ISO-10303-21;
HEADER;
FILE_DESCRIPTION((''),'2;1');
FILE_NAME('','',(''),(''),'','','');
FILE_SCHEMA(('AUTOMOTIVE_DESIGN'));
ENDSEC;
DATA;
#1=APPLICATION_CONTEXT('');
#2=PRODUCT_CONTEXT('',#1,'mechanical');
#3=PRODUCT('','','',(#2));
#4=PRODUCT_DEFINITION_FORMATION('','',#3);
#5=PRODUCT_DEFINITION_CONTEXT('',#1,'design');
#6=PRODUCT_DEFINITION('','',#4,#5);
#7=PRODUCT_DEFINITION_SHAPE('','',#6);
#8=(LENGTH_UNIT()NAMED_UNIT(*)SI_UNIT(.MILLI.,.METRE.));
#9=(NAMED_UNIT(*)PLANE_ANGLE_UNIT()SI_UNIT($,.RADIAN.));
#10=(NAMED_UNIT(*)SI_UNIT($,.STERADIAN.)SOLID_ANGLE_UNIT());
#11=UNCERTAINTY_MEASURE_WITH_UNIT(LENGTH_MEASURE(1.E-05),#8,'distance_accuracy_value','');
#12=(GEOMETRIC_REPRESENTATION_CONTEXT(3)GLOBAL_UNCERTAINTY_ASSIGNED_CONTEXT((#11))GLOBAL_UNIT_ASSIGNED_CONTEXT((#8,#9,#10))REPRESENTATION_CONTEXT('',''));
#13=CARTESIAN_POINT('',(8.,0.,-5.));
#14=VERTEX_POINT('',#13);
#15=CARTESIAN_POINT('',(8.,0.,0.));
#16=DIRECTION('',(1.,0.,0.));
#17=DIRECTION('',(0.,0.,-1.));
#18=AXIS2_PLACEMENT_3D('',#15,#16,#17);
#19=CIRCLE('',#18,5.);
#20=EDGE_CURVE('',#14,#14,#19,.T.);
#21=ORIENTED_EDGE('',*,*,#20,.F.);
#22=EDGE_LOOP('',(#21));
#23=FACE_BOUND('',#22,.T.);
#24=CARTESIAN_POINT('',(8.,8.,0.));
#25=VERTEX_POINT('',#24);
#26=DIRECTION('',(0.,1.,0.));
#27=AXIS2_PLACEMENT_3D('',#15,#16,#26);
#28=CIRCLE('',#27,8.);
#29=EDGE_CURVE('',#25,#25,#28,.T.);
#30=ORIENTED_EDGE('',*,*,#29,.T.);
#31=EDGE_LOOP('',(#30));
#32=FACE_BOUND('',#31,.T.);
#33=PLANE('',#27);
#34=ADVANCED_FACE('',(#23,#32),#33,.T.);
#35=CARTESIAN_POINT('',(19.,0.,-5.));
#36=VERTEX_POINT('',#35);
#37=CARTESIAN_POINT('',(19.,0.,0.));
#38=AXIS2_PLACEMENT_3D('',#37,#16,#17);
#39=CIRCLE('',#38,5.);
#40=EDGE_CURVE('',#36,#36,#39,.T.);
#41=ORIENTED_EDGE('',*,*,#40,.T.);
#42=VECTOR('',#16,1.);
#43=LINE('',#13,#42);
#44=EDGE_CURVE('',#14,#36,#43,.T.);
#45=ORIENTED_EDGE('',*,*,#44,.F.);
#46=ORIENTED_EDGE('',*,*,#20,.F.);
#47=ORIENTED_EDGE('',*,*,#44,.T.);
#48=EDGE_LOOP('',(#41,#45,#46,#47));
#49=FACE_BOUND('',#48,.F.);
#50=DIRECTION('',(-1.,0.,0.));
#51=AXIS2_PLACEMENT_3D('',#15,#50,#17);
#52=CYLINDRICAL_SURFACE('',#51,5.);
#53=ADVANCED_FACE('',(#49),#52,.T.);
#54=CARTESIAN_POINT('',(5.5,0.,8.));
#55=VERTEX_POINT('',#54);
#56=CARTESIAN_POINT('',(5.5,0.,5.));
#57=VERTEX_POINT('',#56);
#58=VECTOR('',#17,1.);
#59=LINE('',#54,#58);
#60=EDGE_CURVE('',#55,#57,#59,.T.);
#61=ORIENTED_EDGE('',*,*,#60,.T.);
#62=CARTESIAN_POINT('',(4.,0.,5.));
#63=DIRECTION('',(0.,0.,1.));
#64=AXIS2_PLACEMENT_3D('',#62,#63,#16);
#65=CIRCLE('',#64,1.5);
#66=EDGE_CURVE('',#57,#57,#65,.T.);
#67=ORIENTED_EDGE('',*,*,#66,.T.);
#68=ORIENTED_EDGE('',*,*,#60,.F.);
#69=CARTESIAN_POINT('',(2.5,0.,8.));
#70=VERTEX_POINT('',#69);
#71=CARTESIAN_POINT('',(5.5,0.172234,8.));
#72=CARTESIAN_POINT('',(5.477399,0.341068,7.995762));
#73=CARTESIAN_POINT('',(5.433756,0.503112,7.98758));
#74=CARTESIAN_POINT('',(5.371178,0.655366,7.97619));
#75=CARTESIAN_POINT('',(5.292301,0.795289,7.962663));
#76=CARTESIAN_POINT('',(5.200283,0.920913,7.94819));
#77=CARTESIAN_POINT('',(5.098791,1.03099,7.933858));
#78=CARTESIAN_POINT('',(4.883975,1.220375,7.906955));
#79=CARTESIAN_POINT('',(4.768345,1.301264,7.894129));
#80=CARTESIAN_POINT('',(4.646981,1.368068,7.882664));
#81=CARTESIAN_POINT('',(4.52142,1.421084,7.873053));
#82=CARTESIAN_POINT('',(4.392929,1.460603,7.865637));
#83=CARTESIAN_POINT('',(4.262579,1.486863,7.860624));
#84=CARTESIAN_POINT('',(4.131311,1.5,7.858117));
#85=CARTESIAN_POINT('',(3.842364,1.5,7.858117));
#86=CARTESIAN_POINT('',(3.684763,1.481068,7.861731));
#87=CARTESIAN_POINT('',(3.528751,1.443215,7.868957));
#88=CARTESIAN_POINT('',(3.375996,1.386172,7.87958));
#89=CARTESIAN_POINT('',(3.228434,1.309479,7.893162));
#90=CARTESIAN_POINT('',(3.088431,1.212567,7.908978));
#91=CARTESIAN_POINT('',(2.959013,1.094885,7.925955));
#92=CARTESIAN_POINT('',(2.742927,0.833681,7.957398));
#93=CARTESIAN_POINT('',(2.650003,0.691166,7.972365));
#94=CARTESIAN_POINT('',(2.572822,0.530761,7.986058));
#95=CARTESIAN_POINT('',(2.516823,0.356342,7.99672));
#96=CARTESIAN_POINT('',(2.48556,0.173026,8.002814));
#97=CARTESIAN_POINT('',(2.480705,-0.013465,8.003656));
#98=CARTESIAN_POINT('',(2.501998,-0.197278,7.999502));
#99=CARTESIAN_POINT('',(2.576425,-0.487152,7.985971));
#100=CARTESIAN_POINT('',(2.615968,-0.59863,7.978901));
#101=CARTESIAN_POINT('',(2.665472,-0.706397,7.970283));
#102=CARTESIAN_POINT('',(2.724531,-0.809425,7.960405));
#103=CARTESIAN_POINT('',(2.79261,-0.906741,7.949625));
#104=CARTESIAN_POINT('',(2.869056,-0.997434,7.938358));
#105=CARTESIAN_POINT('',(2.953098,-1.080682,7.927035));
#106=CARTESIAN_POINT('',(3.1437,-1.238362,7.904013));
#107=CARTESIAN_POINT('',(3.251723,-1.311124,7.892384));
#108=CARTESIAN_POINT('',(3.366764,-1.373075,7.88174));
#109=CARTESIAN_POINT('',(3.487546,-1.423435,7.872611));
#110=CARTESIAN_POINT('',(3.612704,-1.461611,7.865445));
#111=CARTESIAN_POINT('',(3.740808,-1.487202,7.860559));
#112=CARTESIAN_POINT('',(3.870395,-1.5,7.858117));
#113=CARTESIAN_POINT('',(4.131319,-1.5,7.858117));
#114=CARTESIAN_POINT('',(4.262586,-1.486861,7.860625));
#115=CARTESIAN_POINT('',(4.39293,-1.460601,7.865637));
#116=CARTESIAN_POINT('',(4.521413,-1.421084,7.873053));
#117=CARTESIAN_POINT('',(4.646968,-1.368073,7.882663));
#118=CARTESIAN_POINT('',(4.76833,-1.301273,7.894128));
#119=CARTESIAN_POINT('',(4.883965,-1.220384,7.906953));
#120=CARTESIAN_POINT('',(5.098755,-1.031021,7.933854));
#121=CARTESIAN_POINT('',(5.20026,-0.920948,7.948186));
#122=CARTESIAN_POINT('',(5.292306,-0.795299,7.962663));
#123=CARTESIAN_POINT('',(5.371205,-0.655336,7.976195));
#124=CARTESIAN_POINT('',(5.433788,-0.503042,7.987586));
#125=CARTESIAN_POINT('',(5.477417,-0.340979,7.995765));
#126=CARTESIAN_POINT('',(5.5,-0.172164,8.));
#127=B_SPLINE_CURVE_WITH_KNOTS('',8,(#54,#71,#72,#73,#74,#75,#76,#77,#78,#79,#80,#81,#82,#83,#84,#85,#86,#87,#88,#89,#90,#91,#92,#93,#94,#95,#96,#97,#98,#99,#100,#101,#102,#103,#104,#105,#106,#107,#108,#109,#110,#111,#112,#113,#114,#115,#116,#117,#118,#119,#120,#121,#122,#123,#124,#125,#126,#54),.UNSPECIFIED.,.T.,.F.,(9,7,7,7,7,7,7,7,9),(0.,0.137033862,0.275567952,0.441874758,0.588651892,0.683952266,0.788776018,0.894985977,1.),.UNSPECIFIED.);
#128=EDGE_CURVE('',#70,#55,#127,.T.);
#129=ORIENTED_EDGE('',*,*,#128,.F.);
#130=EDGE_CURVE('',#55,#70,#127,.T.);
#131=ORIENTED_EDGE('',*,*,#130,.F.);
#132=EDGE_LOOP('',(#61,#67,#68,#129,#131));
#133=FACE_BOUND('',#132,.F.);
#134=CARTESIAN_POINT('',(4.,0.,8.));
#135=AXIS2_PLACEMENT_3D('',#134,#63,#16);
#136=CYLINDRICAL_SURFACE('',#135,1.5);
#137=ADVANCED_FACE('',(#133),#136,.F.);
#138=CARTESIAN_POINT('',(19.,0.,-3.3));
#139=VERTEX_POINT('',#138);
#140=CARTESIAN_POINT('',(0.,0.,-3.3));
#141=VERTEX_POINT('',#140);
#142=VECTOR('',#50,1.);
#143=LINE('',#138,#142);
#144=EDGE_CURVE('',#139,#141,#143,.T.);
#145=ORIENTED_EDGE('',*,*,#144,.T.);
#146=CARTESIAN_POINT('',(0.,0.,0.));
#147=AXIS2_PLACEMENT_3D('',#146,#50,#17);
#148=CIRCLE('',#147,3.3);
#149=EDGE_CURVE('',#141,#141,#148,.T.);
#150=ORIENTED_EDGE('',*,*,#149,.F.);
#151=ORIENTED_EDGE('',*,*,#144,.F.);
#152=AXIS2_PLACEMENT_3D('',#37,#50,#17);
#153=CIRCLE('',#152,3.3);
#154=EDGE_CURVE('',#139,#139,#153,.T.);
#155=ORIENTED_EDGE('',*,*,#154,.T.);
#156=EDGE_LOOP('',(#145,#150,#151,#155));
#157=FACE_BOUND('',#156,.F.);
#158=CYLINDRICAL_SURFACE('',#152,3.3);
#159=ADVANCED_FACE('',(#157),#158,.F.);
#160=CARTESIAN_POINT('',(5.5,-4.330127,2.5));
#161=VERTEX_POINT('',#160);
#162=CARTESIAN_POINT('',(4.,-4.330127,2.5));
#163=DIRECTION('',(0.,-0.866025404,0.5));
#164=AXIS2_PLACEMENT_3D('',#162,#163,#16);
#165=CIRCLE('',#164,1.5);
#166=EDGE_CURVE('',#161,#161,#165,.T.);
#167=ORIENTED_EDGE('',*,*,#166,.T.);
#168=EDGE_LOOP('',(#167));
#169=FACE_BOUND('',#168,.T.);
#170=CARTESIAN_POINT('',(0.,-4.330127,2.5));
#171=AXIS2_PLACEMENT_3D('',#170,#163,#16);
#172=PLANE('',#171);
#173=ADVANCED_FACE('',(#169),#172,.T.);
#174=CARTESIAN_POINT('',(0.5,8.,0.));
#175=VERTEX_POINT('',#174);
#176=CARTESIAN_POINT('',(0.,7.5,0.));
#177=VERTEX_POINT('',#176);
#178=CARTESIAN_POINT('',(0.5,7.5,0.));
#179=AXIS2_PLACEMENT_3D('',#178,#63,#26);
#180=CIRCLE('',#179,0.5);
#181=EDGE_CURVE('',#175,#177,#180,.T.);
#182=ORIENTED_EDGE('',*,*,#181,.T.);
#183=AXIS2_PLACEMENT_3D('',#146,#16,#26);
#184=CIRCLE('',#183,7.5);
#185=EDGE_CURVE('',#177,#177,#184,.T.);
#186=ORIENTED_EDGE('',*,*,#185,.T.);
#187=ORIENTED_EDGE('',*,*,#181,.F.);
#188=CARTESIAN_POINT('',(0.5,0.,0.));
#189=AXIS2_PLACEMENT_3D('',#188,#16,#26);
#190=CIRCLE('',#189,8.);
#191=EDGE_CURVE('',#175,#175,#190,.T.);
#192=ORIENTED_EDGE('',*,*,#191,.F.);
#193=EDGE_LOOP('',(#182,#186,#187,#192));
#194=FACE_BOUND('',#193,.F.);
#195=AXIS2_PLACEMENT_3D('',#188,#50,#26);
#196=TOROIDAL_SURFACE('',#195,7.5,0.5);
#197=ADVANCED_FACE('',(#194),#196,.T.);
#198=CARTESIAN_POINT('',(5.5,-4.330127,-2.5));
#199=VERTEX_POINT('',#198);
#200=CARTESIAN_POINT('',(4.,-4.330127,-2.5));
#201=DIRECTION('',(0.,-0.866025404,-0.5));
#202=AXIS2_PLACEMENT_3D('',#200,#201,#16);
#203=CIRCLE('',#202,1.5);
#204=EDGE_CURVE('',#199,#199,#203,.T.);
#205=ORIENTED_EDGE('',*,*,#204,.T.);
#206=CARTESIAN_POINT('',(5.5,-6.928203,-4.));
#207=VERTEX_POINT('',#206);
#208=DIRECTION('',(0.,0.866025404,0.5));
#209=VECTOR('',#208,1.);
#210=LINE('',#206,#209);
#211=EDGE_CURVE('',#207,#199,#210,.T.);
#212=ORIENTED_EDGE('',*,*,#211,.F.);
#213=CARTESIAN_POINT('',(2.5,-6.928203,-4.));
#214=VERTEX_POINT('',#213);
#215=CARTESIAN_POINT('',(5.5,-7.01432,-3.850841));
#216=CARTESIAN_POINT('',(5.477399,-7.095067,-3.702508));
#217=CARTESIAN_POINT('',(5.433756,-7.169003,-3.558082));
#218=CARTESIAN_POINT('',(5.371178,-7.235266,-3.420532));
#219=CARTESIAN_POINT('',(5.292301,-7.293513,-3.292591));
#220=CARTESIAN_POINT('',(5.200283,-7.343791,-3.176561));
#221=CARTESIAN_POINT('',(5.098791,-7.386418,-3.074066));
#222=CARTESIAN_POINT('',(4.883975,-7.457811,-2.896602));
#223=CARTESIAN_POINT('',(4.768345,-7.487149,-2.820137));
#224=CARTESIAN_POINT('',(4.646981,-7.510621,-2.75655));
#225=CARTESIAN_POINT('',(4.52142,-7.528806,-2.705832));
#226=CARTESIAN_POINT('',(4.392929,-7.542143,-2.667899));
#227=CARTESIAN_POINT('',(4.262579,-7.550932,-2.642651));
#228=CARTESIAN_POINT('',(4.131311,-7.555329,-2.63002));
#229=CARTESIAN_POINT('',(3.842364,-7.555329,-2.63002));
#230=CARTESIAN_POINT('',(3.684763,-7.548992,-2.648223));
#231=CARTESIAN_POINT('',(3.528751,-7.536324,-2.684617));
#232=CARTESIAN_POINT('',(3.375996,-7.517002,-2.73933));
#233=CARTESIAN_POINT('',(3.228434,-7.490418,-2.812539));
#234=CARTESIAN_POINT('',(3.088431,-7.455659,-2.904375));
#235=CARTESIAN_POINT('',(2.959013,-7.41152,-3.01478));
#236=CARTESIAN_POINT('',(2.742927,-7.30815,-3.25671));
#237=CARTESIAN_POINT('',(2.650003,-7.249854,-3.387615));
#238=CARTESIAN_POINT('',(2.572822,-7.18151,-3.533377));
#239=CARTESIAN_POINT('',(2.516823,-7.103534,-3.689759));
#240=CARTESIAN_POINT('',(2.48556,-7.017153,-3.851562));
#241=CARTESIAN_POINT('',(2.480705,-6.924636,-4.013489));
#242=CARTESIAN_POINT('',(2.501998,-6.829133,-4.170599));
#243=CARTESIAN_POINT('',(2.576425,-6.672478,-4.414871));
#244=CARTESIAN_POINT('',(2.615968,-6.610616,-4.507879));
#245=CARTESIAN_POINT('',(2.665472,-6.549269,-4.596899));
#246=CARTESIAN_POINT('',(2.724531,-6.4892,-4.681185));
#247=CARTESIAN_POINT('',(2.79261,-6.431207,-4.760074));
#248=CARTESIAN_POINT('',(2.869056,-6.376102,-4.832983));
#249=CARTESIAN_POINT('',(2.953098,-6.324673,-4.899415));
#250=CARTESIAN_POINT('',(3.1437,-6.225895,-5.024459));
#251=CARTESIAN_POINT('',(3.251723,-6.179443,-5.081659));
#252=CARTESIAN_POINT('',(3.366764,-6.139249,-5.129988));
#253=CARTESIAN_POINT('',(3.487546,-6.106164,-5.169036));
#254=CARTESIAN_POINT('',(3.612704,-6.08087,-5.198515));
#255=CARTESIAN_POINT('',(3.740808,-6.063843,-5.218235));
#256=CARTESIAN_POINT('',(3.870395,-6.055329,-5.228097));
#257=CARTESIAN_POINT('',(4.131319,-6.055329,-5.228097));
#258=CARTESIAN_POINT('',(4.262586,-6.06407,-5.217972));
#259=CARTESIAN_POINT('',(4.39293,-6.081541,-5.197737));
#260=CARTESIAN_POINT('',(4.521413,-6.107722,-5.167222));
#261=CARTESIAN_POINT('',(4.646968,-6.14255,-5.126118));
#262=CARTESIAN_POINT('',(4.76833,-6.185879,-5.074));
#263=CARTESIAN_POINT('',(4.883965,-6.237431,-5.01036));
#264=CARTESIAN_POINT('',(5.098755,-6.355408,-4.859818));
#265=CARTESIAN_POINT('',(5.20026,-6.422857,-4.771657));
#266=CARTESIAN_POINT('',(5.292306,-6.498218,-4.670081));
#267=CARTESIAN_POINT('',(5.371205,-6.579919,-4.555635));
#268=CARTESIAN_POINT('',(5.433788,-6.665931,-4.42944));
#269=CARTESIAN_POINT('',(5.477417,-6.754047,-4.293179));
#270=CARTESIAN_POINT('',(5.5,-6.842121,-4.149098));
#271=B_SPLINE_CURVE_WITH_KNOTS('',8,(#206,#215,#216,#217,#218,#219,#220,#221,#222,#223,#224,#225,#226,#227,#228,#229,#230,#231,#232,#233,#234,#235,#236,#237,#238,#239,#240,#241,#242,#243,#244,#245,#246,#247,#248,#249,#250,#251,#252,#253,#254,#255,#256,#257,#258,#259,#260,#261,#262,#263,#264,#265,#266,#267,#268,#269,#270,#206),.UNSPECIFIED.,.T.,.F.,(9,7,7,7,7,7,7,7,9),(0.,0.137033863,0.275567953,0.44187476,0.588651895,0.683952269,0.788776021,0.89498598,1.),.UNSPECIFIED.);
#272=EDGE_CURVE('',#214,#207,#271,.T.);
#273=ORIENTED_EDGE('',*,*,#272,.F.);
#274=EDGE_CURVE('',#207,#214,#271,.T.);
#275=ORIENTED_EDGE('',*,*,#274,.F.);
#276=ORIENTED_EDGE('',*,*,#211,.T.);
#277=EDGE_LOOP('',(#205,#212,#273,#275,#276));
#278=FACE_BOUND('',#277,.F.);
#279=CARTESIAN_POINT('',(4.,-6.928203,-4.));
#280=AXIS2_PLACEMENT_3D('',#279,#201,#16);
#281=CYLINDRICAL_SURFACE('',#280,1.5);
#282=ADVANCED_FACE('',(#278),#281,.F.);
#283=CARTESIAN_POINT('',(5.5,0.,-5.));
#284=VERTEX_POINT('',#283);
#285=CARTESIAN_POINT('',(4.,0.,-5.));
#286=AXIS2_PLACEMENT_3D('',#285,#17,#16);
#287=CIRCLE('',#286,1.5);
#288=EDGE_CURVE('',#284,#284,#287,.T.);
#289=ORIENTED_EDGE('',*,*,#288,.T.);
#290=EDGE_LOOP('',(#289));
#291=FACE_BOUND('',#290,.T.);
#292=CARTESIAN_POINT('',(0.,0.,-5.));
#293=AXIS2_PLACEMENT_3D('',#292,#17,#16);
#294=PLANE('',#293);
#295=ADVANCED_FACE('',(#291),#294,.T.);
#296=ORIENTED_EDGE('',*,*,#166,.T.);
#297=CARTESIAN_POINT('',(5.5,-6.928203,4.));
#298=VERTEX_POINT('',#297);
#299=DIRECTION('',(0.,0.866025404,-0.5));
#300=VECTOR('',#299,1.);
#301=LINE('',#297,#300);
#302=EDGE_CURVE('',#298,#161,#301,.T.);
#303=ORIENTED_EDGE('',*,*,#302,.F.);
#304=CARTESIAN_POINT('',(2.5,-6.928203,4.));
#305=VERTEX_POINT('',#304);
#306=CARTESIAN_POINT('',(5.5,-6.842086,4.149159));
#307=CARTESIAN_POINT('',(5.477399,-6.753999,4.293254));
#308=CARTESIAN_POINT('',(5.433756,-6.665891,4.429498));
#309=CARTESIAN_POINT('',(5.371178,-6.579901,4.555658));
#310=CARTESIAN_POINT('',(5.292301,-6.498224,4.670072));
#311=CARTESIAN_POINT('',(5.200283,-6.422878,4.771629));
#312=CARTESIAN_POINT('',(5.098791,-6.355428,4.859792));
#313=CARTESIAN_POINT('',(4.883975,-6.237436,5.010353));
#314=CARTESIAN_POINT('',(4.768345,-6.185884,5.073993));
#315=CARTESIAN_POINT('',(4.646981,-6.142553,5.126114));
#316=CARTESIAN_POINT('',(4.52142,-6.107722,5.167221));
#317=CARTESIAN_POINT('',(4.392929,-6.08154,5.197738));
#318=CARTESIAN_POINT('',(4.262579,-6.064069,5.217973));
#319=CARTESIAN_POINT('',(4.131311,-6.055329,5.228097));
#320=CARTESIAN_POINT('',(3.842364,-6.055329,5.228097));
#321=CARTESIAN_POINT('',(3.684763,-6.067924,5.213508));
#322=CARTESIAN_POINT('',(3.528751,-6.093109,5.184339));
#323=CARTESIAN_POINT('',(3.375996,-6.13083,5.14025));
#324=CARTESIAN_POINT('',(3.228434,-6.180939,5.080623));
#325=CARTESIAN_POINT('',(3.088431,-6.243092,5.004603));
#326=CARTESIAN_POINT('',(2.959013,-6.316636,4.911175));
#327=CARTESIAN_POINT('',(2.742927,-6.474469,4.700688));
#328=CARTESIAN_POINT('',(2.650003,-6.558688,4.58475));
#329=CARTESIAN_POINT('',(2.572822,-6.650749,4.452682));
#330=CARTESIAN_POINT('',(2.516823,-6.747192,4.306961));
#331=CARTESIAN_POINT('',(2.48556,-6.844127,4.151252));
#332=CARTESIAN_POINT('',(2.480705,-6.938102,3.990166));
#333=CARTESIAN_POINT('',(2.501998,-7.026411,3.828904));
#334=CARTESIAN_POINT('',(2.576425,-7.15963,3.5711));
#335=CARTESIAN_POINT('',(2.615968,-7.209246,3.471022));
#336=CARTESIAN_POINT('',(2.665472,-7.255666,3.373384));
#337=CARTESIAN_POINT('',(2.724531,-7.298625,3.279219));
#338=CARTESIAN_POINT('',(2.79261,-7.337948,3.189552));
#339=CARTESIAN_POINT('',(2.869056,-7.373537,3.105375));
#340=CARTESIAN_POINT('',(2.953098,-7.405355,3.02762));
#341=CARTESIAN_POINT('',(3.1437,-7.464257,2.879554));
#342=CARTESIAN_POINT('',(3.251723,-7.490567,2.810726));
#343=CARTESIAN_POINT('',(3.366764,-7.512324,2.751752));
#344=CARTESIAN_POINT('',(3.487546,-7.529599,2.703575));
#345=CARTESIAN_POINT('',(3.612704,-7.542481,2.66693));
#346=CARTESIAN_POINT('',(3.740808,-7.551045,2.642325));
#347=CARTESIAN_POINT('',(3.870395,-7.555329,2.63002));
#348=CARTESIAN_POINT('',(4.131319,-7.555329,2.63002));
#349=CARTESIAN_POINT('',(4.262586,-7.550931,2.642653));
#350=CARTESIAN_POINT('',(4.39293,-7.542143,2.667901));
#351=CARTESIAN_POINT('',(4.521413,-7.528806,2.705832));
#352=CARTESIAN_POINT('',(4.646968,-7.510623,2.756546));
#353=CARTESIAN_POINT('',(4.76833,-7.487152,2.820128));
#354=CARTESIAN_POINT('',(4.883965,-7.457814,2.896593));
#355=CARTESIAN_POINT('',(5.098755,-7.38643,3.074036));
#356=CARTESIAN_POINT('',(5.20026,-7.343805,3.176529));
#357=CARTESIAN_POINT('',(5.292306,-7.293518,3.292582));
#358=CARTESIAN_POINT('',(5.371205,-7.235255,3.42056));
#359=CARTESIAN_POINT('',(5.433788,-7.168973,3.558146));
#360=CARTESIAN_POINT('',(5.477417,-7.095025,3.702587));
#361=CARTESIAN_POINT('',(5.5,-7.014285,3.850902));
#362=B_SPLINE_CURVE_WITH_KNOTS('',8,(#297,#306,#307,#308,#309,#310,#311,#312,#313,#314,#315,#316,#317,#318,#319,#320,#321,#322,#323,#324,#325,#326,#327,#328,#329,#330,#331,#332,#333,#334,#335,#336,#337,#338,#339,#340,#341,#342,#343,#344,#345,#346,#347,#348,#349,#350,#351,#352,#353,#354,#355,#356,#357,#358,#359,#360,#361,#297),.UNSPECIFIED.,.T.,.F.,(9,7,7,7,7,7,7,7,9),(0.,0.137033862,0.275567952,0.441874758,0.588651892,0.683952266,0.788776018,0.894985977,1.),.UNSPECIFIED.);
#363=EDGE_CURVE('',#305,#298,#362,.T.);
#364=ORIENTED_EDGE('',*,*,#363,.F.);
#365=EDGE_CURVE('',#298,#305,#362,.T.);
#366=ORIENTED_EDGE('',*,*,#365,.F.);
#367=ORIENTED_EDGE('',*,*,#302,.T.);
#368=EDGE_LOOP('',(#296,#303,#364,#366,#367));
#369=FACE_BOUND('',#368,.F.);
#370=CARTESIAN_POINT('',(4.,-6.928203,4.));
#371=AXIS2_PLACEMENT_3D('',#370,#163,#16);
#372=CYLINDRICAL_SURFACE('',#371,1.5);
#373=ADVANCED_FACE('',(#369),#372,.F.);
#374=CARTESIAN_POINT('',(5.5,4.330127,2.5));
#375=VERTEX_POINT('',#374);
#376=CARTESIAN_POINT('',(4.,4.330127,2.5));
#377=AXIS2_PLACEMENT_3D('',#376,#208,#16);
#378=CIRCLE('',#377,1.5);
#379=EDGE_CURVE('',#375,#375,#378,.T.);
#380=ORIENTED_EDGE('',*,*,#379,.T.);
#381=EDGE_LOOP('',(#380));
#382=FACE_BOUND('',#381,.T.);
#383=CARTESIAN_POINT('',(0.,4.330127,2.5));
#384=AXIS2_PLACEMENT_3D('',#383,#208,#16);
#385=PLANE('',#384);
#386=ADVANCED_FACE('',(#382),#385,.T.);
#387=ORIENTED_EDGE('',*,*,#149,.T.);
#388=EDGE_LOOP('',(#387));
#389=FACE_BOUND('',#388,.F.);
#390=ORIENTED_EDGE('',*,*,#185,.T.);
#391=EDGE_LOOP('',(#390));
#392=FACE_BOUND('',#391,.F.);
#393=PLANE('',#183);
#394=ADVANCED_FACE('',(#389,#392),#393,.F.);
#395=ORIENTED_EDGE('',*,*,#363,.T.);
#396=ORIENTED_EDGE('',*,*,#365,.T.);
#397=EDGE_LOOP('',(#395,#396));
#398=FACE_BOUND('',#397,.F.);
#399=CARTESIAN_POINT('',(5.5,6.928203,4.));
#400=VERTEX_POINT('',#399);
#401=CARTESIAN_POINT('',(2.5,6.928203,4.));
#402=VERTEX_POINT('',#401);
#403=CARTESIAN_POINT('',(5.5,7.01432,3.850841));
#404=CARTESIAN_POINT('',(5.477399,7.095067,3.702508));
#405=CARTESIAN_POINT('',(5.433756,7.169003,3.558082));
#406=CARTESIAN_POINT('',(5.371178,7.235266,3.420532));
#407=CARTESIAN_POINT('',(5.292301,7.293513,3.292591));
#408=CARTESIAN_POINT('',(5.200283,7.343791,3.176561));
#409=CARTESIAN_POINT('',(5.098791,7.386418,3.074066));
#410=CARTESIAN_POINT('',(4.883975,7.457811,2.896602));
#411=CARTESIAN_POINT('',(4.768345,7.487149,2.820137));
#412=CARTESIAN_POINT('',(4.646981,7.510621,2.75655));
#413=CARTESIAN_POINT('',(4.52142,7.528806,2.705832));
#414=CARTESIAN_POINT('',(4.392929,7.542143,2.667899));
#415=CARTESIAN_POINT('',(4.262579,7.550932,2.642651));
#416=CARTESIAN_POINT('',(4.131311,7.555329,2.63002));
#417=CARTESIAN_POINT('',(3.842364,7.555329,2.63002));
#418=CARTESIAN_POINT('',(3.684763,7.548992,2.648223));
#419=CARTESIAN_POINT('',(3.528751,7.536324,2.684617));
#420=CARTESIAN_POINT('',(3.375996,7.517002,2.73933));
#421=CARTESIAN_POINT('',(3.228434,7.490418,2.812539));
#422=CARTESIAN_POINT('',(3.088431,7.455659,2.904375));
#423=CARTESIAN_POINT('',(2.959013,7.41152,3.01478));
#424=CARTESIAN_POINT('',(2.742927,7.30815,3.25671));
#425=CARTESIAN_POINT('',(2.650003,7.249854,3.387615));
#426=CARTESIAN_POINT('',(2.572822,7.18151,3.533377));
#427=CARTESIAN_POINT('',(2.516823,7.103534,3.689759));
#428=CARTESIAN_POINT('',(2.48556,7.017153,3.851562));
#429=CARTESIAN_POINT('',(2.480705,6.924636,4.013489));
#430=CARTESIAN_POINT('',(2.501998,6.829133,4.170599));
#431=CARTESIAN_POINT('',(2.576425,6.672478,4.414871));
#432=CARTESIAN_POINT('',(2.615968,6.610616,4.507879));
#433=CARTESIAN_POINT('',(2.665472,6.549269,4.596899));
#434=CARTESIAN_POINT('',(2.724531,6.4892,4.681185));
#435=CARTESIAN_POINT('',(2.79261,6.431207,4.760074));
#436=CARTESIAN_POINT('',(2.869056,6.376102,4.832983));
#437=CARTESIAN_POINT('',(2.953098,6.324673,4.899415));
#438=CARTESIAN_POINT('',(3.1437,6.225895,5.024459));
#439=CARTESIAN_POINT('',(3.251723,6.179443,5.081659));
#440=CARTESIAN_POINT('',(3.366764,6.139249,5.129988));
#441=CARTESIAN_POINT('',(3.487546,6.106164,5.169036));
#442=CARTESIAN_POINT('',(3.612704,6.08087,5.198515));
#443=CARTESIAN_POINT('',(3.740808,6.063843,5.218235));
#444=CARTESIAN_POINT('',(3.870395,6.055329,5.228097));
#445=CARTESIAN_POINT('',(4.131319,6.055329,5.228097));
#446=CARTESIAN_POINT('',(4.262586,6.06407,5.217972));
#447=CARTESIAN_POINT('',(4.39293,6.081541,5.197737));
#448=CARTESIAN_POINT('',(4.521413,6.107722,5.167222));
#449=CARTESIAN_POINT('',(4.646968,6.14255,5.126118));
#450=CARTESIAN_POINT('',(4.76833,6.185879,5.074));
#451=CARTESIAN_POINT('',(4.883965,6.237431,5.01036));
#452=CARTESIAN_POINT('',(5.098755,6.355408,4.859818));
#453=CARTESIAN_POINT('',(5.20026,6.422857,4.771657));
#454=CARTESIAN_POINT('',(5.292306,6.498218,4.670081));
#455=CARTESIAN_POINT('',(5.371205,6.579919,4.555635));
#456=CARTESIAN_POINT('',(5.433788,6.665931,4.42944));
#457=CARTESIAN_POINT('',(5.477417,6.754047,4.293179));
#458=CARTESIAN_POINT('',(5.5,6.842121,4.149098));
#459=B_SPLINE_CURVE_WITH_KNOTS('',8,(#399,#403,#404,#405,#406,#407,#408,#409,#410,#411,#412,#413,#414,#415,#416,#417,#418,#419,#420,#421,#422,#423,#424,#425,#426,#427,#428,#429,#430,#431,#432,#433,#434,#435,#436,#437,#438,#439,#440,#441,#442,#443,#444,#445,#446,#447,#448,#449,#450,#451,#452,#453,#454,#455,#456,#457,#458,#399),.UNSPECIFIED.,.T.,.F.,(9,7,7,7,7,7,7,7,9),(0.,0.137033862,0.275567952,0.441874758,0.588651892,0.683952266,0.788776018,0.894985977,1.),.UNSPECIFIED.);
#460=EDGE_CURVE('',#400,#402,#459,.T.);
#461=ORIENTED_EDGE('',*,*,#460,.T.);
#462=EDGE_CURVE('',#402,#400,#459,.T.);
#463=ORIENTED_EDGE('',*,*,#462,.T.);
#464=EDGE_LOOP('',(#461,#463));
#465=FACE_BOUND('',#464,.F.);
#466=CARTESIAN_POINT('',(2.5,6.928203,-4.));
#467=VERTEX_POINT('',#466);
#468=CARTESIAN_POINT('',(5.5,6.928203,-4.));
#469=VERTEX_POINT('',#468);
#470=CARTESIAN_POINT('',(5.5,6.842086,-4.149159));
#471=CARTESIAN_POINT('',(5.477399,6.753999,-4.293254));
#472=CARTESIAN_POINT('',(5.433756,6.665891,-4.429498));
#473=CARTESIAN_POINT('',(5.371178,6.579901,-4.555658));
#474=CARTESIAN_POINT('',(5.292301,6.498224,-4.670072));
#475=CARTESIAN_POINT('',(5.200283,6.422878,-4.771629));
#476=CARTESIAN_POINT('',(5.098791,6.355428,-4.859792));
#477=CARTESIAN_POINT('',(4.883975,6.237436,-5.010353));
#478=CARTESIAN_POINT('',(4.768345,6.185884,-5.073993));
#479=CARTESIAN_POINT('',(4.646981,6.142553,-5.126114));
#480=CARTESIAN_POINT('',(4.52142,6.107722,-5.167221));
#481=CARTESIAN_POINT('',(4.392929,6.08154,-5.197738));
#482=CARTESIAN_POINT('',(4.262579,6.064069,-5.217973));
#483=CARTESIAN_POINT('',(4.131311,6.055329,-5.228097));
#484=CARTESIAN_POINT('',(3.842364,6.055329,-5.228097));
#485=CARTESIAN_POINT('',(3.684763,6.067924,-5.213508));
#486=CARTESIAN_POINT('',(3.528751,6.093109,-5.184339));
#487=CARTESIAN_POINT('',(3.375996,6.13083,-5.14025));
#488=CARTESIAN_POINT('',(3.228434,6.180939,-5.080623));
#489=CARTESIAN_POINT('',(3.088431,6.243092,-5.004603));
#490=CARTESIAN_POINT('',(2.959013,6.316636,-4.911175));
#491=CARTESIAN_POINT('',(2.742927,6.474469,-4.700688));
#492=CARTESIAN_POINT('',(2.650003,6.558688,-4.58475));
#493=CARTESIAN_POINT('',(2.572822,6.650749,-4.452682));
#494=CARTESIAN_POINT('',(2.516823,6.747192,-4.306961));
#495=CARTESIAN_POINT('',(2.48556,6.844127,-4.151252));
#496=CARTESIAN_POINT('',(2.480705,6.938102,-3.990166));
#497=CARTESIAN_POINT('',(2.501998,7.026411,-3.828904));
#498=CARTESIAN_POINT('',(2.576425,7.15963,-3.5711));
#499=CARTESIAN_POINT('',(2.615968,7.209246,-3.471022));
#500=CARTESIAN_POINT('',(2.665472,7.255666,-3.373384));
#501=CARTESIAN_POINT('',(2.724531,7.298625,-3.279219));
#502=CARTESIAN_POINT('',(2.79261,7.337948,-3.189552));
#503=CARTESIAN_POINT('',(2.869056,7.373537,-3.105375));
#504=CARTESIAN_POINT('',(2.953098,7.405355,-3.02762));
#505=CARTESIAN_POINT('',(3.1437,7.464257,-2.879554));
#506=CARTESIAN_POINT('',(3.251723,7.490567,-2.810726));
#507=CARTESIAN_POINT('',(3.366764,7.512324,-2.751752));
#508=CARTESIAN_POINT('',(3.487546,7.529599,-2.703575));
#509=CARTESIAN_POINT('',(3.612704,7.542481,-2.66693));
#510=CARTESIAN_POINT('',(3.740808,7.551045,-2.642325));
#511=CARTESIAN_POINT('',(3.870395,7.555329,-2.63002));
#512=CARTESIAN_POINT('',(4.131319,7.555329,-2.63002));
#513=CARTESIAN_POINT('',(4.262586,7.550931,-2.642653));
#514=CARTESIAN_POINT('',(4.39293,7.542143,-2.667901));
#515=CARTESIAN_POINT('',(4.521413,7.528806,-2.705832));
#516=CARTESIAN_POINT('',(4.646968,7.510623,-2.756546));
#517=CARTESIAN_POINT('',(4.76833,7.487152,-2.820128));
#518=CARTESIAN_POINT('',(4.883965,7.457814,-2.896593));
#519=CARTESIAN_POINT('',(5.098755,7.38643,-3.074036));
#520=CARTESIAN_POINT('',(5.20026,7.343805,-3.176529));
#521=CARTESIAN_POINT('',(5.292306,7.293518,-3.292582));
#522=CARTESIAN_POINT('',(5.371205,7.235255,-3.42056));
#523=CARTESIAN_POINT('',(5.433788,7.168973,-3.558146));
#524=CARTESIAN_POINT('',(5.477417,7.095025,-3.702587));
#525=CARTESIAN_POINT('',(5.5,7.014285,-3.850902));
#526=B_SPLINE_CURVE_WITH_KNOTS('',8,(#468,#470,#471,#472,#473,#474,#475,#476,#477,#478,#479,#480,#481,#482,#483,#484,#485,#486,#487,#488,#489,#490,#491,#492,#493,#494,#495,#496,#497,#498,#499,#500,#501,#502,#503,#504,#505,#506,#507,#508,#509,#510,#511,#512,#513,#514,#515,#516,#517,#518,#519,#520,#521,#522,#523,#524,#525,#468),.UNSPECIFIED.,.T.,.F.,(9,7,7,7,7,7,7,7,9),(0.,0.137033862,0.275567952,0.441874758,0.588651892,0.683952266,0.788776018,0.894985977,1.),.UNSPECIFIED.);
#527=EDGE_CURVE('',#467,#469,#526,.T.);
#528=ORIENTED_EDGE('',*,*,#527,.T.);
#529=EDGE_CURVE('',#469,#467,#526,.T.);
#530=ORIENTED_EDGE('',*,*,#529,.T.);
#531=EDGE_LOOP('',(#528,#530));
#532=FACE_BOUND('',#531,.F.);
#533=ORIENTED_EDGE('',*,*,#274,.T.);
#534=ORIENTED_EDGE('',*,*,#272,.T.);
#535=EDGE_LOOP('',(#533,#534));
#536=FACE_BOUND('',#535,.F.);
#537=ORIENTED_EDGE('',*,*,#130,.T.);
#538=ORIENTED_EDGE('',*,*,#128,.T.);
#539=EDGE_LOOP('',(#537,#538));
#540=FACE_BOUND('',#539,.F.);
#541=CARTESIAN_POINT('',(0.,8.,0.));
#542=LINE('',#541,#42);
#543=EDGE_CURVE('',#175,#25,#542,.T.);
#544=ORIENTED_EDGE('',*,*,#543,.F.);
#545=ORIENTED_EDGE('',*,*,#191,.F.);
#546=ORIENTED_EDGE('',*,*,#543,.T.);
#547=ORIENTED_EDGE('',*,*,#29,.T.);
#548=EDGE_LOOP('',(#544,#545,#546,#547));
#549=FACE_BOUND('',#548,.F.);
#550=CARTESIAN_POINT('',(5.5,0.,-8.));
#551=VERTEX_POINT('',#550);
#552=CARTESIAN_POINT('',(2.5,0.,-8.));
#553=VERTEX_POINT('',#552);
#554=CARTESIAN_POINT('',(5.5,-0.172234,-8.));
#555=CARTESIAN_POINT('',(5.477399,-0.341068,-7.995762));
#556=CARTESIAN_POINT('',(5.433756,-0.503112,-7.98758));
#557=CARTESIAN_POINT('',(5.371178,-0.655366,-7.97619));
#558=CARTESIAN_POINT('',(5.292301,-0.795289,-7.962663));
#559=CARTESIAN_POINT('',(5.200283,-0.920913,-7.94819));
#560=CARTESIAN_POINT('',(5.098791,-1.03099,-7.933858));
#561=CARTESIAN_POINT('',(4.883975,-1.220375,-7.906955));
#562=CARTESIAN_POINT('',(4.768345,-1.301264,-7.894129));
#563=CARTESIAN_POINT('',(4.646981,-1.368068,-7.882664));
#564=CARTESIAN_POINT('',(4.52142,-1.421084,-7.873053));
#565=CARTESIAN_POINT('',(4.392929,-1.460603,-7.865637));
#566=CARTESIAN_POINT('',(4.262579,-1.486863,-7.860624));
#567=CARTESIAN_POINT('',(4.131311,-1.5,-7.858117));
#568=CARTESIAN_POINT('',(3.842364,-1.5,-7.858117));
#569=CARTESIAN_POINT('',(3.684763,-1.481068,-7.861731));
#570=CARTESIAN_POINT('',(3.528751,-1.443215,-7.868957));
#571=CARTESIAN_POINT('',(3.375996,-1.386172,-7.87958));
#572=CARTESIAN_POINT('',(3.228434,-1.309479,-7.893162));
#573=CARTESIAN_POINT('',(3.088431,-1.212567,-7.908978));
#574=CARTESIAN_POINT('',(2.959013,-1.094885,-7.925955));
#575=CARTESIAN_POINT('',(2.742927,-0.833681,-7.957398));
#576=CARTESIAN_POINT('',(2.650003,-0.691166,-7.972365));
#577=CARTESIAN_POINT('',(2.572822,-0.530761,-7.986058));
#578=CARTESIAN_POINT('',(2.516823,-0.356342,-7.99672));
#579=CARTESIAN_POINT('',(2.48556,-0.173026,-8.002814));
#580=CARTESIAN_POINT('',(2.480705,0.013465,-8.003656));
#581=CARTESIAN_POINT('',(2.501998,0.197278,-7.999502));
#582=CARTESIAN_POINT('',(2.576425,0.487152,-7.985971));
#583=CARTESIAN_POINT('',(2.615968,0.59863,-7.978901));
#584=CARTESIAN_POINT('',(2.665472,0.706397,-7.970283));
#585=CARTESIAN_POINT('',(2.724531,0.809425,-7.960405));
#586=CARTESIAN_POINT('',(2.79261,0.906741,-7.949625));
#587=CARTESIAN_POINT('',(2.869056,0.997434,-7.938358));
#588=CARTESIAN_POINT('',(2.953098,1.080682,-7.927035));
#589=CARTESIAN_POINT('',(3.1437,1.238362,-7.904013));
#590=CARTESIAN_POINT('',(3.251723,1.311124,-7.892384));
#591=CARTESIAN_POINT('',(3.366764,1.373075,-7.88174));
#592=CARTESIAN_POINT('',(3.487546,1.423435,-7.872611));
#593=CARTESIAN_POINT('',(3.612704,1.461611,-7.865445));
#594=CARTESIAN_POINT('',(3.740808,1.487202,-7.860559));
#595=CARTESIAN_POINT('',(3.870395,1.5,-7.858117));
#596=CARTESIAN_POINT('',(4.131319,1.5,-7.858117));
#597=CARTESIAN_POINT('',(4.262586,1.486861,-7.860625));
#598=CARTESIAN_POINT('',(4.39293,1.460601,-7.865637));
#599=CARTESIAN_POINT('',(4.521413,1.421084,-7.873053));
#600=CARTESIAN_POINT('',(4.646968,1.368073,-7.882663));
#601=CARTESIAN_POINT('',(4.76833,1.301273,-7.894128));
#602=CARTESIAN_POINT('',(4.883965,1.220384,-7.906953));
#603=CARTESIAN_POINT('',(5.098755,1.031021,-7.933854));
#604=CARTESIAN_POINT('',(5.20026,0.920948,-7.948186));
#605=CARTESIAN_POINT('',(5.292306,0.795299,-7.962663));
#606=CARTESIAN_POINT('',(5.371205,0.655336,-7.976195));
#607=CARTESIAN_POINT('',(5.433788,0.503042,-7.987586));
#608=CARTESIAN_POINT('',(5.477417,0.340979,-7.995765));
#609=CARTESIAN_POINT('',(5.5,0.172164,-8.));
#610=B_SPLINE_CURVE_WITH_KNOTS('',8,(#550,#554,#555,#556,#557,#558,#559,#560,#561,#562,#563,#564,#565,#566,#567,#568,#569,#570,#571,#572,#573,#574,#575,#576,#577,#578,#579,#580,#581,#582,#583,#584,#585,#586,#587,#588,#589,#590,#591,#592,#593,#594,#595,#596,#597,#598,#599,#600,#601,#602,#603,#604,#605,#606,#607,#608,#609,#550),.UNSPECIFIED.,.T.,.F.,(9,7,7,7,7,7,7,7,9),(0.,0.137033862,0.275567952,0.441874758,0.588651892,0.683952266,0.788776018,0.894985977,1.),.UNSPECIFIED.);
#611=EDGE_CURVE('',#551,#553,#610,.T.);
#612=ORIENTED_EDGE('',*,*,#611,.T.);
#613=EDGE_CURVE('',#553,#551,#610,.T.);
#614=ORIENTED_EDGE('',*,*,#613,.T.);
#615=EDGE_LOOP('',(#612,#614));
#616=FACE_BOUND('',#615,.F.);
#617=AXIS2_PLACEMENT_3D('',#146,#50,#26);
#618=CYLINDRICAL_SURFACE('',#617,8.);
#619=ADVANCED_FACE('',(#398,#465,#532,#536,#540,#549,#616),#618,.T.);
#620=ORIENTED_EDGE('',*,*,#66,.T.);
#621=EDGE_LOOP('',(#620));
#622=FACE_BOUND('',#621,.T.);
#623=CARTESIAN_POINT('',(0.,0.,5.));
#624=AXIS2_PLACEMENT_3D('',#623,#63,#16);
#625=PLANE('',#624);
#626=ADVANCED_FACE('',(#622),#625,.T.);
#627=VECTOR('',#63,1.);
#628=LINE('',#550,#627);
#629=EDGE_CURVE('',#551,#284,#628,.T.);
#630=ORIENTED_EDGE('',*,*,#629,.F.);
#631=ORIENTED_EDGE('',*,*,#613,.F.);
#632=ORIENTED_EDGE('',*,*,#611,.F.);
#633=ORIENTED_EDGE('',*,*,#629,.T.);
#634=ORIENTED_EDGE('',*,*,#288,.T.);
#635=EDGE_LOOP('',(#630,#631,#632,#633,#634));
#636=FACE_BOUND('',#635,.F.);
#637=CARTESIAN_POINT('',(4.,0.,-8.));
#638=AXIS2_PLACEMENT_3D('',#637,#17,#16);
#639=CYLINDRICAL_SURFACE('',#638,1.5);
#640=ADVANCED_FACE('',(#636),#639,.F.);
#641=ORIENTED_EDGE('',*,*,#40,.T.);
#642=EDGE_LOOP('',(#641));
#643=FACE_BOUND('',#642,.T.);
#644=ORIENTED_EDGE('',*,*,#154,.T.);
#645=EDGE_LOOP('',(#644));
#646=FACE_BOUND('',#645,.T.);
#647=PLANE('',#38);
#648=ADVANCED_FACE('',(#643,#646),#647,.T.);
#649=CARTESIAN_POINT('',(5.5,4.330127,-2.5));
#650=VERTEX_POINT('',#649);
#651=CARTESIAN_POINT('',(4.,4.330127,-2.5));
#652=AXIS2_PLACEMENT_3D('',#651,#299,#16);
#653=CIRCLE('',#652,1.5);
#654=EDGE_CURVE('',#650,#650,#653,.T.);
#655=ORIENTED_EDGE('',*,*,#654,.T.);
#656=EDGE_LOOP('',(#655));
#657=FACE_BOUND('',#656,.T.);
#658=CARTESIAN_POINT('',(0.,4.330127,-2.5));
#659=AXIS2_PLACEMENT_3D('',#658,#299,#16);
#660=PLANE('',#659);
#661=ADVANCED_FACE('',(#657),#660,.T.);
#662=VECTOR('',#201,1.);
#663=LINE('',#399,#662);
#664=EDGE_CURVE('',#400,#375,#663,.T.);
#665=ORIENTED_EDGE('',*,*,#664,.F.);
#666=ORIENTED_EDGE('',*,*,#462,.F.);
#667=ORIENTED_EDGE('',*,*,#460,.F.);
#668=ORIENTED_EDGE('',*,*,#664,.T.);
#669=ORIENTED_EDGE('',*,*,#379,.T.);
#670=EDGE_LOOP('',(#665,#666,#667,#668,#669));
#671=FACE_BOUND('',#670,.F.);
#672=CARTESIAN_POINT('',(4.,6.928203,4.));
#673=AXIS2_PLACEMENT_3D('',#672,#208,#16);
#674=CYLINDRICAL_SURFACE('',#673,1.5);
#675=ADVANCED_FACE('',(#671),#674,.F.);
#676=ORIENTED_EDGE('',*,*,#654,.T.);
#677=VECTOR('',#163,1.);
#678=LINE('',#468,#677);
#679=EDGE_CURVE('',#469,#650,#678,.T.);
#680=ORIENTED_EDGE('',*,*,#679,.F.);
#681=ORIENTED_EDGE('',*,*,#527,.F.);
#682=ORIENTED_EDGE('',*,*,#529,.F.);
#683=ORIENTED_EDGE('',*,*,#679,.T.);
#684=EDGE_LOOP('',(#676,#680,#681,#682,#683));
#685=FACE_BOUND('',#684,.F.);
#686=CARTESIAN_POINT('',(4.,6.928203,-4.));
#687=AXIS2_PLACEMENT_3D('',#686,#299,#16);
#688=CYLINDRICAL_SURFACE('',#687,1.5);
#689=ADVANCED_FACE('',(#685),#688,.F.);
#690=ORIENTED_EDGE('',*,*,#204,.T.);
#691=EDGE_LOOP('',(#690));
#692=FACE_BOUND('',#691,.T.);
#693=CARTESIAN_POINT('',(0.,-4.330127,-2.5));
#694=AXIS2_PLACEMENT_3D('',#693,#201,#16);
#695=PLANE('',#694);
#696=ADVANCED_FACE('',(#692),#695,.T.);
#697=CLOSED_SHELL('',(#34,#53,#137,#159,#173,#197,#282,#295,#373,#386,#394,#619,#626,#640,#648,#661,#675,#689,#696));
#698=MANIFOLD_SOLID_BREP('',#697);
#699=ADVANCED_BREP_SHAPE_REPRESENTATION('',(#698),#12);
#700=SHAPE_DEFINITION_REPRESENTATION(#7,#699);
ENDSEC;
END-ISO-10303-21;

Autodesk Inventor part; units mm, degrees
ref_plane "YZ Plane" through (0, 0, 0) normal (1, 0, 0) x (0, 1, 0)
ref_plane "XZ Plane" through (0, 0, 0) normal (0, 1, 0) x (-1, 0, 0)
sketch "Skizze1" plane through (0, 0, 0) normal (1, 0, 0) x (0, 1, 0)
  circle A0 centre (0, 0) radius 8
  dimension "d0" = 16
extrude "Extrusion1" add sketch "Skizze1" along normal blind 8
sketch "Skizze2" plane through (8, 0, 0) normal (1, 0, 0) x (0, 0, -1)
  circle A0 centre (0, 0) radius 5
  dimension "d3" = 10
extrude "Extrusion2" add sketch "Skizze2" along normal blind 11
thread "Gewinde1" size "M10x1.5" class "6g" standard "ISO Metric profile" length 16
ref_plane "Arbeitsebene1" through (0, 0, 8) normal (0, 0, 1) x (1, 0, 0)
sketch "Skizze3" plane through (0, 0, 8) normal (0, 0, 1) x (1, 0, 0)
  circle A0 centre (4, 0) radius 1.5
  point P0 (0, 0)
  dimension "d9" = 3
extrude "Extrusion3" cut sketch "Skizze3" against normal blind 3
sketch "Skizze4" plane through (19, 0, 0) normal (1, 0, 0) x (0, 0, -1)
  point P0 (0, 0)
hole "Bohrung1" at (19, 0, 0) direction (-1, 0, 0) diameter 6.6 depth 19 clearance for "Flachkopfsenkschraube ISO 2009/7046" size "M6" standard "ISO"
pattern_circular "Runde Anordnung1" count 6 over 360 about axis through (0, 0, 0) along (1, 0, 0) of "Extrusion3"
fillet "Rundung1" radius 0.5 1 edges at (0, -8, 0)
properties part number "sf_Piston_Rod_Gland_1"
